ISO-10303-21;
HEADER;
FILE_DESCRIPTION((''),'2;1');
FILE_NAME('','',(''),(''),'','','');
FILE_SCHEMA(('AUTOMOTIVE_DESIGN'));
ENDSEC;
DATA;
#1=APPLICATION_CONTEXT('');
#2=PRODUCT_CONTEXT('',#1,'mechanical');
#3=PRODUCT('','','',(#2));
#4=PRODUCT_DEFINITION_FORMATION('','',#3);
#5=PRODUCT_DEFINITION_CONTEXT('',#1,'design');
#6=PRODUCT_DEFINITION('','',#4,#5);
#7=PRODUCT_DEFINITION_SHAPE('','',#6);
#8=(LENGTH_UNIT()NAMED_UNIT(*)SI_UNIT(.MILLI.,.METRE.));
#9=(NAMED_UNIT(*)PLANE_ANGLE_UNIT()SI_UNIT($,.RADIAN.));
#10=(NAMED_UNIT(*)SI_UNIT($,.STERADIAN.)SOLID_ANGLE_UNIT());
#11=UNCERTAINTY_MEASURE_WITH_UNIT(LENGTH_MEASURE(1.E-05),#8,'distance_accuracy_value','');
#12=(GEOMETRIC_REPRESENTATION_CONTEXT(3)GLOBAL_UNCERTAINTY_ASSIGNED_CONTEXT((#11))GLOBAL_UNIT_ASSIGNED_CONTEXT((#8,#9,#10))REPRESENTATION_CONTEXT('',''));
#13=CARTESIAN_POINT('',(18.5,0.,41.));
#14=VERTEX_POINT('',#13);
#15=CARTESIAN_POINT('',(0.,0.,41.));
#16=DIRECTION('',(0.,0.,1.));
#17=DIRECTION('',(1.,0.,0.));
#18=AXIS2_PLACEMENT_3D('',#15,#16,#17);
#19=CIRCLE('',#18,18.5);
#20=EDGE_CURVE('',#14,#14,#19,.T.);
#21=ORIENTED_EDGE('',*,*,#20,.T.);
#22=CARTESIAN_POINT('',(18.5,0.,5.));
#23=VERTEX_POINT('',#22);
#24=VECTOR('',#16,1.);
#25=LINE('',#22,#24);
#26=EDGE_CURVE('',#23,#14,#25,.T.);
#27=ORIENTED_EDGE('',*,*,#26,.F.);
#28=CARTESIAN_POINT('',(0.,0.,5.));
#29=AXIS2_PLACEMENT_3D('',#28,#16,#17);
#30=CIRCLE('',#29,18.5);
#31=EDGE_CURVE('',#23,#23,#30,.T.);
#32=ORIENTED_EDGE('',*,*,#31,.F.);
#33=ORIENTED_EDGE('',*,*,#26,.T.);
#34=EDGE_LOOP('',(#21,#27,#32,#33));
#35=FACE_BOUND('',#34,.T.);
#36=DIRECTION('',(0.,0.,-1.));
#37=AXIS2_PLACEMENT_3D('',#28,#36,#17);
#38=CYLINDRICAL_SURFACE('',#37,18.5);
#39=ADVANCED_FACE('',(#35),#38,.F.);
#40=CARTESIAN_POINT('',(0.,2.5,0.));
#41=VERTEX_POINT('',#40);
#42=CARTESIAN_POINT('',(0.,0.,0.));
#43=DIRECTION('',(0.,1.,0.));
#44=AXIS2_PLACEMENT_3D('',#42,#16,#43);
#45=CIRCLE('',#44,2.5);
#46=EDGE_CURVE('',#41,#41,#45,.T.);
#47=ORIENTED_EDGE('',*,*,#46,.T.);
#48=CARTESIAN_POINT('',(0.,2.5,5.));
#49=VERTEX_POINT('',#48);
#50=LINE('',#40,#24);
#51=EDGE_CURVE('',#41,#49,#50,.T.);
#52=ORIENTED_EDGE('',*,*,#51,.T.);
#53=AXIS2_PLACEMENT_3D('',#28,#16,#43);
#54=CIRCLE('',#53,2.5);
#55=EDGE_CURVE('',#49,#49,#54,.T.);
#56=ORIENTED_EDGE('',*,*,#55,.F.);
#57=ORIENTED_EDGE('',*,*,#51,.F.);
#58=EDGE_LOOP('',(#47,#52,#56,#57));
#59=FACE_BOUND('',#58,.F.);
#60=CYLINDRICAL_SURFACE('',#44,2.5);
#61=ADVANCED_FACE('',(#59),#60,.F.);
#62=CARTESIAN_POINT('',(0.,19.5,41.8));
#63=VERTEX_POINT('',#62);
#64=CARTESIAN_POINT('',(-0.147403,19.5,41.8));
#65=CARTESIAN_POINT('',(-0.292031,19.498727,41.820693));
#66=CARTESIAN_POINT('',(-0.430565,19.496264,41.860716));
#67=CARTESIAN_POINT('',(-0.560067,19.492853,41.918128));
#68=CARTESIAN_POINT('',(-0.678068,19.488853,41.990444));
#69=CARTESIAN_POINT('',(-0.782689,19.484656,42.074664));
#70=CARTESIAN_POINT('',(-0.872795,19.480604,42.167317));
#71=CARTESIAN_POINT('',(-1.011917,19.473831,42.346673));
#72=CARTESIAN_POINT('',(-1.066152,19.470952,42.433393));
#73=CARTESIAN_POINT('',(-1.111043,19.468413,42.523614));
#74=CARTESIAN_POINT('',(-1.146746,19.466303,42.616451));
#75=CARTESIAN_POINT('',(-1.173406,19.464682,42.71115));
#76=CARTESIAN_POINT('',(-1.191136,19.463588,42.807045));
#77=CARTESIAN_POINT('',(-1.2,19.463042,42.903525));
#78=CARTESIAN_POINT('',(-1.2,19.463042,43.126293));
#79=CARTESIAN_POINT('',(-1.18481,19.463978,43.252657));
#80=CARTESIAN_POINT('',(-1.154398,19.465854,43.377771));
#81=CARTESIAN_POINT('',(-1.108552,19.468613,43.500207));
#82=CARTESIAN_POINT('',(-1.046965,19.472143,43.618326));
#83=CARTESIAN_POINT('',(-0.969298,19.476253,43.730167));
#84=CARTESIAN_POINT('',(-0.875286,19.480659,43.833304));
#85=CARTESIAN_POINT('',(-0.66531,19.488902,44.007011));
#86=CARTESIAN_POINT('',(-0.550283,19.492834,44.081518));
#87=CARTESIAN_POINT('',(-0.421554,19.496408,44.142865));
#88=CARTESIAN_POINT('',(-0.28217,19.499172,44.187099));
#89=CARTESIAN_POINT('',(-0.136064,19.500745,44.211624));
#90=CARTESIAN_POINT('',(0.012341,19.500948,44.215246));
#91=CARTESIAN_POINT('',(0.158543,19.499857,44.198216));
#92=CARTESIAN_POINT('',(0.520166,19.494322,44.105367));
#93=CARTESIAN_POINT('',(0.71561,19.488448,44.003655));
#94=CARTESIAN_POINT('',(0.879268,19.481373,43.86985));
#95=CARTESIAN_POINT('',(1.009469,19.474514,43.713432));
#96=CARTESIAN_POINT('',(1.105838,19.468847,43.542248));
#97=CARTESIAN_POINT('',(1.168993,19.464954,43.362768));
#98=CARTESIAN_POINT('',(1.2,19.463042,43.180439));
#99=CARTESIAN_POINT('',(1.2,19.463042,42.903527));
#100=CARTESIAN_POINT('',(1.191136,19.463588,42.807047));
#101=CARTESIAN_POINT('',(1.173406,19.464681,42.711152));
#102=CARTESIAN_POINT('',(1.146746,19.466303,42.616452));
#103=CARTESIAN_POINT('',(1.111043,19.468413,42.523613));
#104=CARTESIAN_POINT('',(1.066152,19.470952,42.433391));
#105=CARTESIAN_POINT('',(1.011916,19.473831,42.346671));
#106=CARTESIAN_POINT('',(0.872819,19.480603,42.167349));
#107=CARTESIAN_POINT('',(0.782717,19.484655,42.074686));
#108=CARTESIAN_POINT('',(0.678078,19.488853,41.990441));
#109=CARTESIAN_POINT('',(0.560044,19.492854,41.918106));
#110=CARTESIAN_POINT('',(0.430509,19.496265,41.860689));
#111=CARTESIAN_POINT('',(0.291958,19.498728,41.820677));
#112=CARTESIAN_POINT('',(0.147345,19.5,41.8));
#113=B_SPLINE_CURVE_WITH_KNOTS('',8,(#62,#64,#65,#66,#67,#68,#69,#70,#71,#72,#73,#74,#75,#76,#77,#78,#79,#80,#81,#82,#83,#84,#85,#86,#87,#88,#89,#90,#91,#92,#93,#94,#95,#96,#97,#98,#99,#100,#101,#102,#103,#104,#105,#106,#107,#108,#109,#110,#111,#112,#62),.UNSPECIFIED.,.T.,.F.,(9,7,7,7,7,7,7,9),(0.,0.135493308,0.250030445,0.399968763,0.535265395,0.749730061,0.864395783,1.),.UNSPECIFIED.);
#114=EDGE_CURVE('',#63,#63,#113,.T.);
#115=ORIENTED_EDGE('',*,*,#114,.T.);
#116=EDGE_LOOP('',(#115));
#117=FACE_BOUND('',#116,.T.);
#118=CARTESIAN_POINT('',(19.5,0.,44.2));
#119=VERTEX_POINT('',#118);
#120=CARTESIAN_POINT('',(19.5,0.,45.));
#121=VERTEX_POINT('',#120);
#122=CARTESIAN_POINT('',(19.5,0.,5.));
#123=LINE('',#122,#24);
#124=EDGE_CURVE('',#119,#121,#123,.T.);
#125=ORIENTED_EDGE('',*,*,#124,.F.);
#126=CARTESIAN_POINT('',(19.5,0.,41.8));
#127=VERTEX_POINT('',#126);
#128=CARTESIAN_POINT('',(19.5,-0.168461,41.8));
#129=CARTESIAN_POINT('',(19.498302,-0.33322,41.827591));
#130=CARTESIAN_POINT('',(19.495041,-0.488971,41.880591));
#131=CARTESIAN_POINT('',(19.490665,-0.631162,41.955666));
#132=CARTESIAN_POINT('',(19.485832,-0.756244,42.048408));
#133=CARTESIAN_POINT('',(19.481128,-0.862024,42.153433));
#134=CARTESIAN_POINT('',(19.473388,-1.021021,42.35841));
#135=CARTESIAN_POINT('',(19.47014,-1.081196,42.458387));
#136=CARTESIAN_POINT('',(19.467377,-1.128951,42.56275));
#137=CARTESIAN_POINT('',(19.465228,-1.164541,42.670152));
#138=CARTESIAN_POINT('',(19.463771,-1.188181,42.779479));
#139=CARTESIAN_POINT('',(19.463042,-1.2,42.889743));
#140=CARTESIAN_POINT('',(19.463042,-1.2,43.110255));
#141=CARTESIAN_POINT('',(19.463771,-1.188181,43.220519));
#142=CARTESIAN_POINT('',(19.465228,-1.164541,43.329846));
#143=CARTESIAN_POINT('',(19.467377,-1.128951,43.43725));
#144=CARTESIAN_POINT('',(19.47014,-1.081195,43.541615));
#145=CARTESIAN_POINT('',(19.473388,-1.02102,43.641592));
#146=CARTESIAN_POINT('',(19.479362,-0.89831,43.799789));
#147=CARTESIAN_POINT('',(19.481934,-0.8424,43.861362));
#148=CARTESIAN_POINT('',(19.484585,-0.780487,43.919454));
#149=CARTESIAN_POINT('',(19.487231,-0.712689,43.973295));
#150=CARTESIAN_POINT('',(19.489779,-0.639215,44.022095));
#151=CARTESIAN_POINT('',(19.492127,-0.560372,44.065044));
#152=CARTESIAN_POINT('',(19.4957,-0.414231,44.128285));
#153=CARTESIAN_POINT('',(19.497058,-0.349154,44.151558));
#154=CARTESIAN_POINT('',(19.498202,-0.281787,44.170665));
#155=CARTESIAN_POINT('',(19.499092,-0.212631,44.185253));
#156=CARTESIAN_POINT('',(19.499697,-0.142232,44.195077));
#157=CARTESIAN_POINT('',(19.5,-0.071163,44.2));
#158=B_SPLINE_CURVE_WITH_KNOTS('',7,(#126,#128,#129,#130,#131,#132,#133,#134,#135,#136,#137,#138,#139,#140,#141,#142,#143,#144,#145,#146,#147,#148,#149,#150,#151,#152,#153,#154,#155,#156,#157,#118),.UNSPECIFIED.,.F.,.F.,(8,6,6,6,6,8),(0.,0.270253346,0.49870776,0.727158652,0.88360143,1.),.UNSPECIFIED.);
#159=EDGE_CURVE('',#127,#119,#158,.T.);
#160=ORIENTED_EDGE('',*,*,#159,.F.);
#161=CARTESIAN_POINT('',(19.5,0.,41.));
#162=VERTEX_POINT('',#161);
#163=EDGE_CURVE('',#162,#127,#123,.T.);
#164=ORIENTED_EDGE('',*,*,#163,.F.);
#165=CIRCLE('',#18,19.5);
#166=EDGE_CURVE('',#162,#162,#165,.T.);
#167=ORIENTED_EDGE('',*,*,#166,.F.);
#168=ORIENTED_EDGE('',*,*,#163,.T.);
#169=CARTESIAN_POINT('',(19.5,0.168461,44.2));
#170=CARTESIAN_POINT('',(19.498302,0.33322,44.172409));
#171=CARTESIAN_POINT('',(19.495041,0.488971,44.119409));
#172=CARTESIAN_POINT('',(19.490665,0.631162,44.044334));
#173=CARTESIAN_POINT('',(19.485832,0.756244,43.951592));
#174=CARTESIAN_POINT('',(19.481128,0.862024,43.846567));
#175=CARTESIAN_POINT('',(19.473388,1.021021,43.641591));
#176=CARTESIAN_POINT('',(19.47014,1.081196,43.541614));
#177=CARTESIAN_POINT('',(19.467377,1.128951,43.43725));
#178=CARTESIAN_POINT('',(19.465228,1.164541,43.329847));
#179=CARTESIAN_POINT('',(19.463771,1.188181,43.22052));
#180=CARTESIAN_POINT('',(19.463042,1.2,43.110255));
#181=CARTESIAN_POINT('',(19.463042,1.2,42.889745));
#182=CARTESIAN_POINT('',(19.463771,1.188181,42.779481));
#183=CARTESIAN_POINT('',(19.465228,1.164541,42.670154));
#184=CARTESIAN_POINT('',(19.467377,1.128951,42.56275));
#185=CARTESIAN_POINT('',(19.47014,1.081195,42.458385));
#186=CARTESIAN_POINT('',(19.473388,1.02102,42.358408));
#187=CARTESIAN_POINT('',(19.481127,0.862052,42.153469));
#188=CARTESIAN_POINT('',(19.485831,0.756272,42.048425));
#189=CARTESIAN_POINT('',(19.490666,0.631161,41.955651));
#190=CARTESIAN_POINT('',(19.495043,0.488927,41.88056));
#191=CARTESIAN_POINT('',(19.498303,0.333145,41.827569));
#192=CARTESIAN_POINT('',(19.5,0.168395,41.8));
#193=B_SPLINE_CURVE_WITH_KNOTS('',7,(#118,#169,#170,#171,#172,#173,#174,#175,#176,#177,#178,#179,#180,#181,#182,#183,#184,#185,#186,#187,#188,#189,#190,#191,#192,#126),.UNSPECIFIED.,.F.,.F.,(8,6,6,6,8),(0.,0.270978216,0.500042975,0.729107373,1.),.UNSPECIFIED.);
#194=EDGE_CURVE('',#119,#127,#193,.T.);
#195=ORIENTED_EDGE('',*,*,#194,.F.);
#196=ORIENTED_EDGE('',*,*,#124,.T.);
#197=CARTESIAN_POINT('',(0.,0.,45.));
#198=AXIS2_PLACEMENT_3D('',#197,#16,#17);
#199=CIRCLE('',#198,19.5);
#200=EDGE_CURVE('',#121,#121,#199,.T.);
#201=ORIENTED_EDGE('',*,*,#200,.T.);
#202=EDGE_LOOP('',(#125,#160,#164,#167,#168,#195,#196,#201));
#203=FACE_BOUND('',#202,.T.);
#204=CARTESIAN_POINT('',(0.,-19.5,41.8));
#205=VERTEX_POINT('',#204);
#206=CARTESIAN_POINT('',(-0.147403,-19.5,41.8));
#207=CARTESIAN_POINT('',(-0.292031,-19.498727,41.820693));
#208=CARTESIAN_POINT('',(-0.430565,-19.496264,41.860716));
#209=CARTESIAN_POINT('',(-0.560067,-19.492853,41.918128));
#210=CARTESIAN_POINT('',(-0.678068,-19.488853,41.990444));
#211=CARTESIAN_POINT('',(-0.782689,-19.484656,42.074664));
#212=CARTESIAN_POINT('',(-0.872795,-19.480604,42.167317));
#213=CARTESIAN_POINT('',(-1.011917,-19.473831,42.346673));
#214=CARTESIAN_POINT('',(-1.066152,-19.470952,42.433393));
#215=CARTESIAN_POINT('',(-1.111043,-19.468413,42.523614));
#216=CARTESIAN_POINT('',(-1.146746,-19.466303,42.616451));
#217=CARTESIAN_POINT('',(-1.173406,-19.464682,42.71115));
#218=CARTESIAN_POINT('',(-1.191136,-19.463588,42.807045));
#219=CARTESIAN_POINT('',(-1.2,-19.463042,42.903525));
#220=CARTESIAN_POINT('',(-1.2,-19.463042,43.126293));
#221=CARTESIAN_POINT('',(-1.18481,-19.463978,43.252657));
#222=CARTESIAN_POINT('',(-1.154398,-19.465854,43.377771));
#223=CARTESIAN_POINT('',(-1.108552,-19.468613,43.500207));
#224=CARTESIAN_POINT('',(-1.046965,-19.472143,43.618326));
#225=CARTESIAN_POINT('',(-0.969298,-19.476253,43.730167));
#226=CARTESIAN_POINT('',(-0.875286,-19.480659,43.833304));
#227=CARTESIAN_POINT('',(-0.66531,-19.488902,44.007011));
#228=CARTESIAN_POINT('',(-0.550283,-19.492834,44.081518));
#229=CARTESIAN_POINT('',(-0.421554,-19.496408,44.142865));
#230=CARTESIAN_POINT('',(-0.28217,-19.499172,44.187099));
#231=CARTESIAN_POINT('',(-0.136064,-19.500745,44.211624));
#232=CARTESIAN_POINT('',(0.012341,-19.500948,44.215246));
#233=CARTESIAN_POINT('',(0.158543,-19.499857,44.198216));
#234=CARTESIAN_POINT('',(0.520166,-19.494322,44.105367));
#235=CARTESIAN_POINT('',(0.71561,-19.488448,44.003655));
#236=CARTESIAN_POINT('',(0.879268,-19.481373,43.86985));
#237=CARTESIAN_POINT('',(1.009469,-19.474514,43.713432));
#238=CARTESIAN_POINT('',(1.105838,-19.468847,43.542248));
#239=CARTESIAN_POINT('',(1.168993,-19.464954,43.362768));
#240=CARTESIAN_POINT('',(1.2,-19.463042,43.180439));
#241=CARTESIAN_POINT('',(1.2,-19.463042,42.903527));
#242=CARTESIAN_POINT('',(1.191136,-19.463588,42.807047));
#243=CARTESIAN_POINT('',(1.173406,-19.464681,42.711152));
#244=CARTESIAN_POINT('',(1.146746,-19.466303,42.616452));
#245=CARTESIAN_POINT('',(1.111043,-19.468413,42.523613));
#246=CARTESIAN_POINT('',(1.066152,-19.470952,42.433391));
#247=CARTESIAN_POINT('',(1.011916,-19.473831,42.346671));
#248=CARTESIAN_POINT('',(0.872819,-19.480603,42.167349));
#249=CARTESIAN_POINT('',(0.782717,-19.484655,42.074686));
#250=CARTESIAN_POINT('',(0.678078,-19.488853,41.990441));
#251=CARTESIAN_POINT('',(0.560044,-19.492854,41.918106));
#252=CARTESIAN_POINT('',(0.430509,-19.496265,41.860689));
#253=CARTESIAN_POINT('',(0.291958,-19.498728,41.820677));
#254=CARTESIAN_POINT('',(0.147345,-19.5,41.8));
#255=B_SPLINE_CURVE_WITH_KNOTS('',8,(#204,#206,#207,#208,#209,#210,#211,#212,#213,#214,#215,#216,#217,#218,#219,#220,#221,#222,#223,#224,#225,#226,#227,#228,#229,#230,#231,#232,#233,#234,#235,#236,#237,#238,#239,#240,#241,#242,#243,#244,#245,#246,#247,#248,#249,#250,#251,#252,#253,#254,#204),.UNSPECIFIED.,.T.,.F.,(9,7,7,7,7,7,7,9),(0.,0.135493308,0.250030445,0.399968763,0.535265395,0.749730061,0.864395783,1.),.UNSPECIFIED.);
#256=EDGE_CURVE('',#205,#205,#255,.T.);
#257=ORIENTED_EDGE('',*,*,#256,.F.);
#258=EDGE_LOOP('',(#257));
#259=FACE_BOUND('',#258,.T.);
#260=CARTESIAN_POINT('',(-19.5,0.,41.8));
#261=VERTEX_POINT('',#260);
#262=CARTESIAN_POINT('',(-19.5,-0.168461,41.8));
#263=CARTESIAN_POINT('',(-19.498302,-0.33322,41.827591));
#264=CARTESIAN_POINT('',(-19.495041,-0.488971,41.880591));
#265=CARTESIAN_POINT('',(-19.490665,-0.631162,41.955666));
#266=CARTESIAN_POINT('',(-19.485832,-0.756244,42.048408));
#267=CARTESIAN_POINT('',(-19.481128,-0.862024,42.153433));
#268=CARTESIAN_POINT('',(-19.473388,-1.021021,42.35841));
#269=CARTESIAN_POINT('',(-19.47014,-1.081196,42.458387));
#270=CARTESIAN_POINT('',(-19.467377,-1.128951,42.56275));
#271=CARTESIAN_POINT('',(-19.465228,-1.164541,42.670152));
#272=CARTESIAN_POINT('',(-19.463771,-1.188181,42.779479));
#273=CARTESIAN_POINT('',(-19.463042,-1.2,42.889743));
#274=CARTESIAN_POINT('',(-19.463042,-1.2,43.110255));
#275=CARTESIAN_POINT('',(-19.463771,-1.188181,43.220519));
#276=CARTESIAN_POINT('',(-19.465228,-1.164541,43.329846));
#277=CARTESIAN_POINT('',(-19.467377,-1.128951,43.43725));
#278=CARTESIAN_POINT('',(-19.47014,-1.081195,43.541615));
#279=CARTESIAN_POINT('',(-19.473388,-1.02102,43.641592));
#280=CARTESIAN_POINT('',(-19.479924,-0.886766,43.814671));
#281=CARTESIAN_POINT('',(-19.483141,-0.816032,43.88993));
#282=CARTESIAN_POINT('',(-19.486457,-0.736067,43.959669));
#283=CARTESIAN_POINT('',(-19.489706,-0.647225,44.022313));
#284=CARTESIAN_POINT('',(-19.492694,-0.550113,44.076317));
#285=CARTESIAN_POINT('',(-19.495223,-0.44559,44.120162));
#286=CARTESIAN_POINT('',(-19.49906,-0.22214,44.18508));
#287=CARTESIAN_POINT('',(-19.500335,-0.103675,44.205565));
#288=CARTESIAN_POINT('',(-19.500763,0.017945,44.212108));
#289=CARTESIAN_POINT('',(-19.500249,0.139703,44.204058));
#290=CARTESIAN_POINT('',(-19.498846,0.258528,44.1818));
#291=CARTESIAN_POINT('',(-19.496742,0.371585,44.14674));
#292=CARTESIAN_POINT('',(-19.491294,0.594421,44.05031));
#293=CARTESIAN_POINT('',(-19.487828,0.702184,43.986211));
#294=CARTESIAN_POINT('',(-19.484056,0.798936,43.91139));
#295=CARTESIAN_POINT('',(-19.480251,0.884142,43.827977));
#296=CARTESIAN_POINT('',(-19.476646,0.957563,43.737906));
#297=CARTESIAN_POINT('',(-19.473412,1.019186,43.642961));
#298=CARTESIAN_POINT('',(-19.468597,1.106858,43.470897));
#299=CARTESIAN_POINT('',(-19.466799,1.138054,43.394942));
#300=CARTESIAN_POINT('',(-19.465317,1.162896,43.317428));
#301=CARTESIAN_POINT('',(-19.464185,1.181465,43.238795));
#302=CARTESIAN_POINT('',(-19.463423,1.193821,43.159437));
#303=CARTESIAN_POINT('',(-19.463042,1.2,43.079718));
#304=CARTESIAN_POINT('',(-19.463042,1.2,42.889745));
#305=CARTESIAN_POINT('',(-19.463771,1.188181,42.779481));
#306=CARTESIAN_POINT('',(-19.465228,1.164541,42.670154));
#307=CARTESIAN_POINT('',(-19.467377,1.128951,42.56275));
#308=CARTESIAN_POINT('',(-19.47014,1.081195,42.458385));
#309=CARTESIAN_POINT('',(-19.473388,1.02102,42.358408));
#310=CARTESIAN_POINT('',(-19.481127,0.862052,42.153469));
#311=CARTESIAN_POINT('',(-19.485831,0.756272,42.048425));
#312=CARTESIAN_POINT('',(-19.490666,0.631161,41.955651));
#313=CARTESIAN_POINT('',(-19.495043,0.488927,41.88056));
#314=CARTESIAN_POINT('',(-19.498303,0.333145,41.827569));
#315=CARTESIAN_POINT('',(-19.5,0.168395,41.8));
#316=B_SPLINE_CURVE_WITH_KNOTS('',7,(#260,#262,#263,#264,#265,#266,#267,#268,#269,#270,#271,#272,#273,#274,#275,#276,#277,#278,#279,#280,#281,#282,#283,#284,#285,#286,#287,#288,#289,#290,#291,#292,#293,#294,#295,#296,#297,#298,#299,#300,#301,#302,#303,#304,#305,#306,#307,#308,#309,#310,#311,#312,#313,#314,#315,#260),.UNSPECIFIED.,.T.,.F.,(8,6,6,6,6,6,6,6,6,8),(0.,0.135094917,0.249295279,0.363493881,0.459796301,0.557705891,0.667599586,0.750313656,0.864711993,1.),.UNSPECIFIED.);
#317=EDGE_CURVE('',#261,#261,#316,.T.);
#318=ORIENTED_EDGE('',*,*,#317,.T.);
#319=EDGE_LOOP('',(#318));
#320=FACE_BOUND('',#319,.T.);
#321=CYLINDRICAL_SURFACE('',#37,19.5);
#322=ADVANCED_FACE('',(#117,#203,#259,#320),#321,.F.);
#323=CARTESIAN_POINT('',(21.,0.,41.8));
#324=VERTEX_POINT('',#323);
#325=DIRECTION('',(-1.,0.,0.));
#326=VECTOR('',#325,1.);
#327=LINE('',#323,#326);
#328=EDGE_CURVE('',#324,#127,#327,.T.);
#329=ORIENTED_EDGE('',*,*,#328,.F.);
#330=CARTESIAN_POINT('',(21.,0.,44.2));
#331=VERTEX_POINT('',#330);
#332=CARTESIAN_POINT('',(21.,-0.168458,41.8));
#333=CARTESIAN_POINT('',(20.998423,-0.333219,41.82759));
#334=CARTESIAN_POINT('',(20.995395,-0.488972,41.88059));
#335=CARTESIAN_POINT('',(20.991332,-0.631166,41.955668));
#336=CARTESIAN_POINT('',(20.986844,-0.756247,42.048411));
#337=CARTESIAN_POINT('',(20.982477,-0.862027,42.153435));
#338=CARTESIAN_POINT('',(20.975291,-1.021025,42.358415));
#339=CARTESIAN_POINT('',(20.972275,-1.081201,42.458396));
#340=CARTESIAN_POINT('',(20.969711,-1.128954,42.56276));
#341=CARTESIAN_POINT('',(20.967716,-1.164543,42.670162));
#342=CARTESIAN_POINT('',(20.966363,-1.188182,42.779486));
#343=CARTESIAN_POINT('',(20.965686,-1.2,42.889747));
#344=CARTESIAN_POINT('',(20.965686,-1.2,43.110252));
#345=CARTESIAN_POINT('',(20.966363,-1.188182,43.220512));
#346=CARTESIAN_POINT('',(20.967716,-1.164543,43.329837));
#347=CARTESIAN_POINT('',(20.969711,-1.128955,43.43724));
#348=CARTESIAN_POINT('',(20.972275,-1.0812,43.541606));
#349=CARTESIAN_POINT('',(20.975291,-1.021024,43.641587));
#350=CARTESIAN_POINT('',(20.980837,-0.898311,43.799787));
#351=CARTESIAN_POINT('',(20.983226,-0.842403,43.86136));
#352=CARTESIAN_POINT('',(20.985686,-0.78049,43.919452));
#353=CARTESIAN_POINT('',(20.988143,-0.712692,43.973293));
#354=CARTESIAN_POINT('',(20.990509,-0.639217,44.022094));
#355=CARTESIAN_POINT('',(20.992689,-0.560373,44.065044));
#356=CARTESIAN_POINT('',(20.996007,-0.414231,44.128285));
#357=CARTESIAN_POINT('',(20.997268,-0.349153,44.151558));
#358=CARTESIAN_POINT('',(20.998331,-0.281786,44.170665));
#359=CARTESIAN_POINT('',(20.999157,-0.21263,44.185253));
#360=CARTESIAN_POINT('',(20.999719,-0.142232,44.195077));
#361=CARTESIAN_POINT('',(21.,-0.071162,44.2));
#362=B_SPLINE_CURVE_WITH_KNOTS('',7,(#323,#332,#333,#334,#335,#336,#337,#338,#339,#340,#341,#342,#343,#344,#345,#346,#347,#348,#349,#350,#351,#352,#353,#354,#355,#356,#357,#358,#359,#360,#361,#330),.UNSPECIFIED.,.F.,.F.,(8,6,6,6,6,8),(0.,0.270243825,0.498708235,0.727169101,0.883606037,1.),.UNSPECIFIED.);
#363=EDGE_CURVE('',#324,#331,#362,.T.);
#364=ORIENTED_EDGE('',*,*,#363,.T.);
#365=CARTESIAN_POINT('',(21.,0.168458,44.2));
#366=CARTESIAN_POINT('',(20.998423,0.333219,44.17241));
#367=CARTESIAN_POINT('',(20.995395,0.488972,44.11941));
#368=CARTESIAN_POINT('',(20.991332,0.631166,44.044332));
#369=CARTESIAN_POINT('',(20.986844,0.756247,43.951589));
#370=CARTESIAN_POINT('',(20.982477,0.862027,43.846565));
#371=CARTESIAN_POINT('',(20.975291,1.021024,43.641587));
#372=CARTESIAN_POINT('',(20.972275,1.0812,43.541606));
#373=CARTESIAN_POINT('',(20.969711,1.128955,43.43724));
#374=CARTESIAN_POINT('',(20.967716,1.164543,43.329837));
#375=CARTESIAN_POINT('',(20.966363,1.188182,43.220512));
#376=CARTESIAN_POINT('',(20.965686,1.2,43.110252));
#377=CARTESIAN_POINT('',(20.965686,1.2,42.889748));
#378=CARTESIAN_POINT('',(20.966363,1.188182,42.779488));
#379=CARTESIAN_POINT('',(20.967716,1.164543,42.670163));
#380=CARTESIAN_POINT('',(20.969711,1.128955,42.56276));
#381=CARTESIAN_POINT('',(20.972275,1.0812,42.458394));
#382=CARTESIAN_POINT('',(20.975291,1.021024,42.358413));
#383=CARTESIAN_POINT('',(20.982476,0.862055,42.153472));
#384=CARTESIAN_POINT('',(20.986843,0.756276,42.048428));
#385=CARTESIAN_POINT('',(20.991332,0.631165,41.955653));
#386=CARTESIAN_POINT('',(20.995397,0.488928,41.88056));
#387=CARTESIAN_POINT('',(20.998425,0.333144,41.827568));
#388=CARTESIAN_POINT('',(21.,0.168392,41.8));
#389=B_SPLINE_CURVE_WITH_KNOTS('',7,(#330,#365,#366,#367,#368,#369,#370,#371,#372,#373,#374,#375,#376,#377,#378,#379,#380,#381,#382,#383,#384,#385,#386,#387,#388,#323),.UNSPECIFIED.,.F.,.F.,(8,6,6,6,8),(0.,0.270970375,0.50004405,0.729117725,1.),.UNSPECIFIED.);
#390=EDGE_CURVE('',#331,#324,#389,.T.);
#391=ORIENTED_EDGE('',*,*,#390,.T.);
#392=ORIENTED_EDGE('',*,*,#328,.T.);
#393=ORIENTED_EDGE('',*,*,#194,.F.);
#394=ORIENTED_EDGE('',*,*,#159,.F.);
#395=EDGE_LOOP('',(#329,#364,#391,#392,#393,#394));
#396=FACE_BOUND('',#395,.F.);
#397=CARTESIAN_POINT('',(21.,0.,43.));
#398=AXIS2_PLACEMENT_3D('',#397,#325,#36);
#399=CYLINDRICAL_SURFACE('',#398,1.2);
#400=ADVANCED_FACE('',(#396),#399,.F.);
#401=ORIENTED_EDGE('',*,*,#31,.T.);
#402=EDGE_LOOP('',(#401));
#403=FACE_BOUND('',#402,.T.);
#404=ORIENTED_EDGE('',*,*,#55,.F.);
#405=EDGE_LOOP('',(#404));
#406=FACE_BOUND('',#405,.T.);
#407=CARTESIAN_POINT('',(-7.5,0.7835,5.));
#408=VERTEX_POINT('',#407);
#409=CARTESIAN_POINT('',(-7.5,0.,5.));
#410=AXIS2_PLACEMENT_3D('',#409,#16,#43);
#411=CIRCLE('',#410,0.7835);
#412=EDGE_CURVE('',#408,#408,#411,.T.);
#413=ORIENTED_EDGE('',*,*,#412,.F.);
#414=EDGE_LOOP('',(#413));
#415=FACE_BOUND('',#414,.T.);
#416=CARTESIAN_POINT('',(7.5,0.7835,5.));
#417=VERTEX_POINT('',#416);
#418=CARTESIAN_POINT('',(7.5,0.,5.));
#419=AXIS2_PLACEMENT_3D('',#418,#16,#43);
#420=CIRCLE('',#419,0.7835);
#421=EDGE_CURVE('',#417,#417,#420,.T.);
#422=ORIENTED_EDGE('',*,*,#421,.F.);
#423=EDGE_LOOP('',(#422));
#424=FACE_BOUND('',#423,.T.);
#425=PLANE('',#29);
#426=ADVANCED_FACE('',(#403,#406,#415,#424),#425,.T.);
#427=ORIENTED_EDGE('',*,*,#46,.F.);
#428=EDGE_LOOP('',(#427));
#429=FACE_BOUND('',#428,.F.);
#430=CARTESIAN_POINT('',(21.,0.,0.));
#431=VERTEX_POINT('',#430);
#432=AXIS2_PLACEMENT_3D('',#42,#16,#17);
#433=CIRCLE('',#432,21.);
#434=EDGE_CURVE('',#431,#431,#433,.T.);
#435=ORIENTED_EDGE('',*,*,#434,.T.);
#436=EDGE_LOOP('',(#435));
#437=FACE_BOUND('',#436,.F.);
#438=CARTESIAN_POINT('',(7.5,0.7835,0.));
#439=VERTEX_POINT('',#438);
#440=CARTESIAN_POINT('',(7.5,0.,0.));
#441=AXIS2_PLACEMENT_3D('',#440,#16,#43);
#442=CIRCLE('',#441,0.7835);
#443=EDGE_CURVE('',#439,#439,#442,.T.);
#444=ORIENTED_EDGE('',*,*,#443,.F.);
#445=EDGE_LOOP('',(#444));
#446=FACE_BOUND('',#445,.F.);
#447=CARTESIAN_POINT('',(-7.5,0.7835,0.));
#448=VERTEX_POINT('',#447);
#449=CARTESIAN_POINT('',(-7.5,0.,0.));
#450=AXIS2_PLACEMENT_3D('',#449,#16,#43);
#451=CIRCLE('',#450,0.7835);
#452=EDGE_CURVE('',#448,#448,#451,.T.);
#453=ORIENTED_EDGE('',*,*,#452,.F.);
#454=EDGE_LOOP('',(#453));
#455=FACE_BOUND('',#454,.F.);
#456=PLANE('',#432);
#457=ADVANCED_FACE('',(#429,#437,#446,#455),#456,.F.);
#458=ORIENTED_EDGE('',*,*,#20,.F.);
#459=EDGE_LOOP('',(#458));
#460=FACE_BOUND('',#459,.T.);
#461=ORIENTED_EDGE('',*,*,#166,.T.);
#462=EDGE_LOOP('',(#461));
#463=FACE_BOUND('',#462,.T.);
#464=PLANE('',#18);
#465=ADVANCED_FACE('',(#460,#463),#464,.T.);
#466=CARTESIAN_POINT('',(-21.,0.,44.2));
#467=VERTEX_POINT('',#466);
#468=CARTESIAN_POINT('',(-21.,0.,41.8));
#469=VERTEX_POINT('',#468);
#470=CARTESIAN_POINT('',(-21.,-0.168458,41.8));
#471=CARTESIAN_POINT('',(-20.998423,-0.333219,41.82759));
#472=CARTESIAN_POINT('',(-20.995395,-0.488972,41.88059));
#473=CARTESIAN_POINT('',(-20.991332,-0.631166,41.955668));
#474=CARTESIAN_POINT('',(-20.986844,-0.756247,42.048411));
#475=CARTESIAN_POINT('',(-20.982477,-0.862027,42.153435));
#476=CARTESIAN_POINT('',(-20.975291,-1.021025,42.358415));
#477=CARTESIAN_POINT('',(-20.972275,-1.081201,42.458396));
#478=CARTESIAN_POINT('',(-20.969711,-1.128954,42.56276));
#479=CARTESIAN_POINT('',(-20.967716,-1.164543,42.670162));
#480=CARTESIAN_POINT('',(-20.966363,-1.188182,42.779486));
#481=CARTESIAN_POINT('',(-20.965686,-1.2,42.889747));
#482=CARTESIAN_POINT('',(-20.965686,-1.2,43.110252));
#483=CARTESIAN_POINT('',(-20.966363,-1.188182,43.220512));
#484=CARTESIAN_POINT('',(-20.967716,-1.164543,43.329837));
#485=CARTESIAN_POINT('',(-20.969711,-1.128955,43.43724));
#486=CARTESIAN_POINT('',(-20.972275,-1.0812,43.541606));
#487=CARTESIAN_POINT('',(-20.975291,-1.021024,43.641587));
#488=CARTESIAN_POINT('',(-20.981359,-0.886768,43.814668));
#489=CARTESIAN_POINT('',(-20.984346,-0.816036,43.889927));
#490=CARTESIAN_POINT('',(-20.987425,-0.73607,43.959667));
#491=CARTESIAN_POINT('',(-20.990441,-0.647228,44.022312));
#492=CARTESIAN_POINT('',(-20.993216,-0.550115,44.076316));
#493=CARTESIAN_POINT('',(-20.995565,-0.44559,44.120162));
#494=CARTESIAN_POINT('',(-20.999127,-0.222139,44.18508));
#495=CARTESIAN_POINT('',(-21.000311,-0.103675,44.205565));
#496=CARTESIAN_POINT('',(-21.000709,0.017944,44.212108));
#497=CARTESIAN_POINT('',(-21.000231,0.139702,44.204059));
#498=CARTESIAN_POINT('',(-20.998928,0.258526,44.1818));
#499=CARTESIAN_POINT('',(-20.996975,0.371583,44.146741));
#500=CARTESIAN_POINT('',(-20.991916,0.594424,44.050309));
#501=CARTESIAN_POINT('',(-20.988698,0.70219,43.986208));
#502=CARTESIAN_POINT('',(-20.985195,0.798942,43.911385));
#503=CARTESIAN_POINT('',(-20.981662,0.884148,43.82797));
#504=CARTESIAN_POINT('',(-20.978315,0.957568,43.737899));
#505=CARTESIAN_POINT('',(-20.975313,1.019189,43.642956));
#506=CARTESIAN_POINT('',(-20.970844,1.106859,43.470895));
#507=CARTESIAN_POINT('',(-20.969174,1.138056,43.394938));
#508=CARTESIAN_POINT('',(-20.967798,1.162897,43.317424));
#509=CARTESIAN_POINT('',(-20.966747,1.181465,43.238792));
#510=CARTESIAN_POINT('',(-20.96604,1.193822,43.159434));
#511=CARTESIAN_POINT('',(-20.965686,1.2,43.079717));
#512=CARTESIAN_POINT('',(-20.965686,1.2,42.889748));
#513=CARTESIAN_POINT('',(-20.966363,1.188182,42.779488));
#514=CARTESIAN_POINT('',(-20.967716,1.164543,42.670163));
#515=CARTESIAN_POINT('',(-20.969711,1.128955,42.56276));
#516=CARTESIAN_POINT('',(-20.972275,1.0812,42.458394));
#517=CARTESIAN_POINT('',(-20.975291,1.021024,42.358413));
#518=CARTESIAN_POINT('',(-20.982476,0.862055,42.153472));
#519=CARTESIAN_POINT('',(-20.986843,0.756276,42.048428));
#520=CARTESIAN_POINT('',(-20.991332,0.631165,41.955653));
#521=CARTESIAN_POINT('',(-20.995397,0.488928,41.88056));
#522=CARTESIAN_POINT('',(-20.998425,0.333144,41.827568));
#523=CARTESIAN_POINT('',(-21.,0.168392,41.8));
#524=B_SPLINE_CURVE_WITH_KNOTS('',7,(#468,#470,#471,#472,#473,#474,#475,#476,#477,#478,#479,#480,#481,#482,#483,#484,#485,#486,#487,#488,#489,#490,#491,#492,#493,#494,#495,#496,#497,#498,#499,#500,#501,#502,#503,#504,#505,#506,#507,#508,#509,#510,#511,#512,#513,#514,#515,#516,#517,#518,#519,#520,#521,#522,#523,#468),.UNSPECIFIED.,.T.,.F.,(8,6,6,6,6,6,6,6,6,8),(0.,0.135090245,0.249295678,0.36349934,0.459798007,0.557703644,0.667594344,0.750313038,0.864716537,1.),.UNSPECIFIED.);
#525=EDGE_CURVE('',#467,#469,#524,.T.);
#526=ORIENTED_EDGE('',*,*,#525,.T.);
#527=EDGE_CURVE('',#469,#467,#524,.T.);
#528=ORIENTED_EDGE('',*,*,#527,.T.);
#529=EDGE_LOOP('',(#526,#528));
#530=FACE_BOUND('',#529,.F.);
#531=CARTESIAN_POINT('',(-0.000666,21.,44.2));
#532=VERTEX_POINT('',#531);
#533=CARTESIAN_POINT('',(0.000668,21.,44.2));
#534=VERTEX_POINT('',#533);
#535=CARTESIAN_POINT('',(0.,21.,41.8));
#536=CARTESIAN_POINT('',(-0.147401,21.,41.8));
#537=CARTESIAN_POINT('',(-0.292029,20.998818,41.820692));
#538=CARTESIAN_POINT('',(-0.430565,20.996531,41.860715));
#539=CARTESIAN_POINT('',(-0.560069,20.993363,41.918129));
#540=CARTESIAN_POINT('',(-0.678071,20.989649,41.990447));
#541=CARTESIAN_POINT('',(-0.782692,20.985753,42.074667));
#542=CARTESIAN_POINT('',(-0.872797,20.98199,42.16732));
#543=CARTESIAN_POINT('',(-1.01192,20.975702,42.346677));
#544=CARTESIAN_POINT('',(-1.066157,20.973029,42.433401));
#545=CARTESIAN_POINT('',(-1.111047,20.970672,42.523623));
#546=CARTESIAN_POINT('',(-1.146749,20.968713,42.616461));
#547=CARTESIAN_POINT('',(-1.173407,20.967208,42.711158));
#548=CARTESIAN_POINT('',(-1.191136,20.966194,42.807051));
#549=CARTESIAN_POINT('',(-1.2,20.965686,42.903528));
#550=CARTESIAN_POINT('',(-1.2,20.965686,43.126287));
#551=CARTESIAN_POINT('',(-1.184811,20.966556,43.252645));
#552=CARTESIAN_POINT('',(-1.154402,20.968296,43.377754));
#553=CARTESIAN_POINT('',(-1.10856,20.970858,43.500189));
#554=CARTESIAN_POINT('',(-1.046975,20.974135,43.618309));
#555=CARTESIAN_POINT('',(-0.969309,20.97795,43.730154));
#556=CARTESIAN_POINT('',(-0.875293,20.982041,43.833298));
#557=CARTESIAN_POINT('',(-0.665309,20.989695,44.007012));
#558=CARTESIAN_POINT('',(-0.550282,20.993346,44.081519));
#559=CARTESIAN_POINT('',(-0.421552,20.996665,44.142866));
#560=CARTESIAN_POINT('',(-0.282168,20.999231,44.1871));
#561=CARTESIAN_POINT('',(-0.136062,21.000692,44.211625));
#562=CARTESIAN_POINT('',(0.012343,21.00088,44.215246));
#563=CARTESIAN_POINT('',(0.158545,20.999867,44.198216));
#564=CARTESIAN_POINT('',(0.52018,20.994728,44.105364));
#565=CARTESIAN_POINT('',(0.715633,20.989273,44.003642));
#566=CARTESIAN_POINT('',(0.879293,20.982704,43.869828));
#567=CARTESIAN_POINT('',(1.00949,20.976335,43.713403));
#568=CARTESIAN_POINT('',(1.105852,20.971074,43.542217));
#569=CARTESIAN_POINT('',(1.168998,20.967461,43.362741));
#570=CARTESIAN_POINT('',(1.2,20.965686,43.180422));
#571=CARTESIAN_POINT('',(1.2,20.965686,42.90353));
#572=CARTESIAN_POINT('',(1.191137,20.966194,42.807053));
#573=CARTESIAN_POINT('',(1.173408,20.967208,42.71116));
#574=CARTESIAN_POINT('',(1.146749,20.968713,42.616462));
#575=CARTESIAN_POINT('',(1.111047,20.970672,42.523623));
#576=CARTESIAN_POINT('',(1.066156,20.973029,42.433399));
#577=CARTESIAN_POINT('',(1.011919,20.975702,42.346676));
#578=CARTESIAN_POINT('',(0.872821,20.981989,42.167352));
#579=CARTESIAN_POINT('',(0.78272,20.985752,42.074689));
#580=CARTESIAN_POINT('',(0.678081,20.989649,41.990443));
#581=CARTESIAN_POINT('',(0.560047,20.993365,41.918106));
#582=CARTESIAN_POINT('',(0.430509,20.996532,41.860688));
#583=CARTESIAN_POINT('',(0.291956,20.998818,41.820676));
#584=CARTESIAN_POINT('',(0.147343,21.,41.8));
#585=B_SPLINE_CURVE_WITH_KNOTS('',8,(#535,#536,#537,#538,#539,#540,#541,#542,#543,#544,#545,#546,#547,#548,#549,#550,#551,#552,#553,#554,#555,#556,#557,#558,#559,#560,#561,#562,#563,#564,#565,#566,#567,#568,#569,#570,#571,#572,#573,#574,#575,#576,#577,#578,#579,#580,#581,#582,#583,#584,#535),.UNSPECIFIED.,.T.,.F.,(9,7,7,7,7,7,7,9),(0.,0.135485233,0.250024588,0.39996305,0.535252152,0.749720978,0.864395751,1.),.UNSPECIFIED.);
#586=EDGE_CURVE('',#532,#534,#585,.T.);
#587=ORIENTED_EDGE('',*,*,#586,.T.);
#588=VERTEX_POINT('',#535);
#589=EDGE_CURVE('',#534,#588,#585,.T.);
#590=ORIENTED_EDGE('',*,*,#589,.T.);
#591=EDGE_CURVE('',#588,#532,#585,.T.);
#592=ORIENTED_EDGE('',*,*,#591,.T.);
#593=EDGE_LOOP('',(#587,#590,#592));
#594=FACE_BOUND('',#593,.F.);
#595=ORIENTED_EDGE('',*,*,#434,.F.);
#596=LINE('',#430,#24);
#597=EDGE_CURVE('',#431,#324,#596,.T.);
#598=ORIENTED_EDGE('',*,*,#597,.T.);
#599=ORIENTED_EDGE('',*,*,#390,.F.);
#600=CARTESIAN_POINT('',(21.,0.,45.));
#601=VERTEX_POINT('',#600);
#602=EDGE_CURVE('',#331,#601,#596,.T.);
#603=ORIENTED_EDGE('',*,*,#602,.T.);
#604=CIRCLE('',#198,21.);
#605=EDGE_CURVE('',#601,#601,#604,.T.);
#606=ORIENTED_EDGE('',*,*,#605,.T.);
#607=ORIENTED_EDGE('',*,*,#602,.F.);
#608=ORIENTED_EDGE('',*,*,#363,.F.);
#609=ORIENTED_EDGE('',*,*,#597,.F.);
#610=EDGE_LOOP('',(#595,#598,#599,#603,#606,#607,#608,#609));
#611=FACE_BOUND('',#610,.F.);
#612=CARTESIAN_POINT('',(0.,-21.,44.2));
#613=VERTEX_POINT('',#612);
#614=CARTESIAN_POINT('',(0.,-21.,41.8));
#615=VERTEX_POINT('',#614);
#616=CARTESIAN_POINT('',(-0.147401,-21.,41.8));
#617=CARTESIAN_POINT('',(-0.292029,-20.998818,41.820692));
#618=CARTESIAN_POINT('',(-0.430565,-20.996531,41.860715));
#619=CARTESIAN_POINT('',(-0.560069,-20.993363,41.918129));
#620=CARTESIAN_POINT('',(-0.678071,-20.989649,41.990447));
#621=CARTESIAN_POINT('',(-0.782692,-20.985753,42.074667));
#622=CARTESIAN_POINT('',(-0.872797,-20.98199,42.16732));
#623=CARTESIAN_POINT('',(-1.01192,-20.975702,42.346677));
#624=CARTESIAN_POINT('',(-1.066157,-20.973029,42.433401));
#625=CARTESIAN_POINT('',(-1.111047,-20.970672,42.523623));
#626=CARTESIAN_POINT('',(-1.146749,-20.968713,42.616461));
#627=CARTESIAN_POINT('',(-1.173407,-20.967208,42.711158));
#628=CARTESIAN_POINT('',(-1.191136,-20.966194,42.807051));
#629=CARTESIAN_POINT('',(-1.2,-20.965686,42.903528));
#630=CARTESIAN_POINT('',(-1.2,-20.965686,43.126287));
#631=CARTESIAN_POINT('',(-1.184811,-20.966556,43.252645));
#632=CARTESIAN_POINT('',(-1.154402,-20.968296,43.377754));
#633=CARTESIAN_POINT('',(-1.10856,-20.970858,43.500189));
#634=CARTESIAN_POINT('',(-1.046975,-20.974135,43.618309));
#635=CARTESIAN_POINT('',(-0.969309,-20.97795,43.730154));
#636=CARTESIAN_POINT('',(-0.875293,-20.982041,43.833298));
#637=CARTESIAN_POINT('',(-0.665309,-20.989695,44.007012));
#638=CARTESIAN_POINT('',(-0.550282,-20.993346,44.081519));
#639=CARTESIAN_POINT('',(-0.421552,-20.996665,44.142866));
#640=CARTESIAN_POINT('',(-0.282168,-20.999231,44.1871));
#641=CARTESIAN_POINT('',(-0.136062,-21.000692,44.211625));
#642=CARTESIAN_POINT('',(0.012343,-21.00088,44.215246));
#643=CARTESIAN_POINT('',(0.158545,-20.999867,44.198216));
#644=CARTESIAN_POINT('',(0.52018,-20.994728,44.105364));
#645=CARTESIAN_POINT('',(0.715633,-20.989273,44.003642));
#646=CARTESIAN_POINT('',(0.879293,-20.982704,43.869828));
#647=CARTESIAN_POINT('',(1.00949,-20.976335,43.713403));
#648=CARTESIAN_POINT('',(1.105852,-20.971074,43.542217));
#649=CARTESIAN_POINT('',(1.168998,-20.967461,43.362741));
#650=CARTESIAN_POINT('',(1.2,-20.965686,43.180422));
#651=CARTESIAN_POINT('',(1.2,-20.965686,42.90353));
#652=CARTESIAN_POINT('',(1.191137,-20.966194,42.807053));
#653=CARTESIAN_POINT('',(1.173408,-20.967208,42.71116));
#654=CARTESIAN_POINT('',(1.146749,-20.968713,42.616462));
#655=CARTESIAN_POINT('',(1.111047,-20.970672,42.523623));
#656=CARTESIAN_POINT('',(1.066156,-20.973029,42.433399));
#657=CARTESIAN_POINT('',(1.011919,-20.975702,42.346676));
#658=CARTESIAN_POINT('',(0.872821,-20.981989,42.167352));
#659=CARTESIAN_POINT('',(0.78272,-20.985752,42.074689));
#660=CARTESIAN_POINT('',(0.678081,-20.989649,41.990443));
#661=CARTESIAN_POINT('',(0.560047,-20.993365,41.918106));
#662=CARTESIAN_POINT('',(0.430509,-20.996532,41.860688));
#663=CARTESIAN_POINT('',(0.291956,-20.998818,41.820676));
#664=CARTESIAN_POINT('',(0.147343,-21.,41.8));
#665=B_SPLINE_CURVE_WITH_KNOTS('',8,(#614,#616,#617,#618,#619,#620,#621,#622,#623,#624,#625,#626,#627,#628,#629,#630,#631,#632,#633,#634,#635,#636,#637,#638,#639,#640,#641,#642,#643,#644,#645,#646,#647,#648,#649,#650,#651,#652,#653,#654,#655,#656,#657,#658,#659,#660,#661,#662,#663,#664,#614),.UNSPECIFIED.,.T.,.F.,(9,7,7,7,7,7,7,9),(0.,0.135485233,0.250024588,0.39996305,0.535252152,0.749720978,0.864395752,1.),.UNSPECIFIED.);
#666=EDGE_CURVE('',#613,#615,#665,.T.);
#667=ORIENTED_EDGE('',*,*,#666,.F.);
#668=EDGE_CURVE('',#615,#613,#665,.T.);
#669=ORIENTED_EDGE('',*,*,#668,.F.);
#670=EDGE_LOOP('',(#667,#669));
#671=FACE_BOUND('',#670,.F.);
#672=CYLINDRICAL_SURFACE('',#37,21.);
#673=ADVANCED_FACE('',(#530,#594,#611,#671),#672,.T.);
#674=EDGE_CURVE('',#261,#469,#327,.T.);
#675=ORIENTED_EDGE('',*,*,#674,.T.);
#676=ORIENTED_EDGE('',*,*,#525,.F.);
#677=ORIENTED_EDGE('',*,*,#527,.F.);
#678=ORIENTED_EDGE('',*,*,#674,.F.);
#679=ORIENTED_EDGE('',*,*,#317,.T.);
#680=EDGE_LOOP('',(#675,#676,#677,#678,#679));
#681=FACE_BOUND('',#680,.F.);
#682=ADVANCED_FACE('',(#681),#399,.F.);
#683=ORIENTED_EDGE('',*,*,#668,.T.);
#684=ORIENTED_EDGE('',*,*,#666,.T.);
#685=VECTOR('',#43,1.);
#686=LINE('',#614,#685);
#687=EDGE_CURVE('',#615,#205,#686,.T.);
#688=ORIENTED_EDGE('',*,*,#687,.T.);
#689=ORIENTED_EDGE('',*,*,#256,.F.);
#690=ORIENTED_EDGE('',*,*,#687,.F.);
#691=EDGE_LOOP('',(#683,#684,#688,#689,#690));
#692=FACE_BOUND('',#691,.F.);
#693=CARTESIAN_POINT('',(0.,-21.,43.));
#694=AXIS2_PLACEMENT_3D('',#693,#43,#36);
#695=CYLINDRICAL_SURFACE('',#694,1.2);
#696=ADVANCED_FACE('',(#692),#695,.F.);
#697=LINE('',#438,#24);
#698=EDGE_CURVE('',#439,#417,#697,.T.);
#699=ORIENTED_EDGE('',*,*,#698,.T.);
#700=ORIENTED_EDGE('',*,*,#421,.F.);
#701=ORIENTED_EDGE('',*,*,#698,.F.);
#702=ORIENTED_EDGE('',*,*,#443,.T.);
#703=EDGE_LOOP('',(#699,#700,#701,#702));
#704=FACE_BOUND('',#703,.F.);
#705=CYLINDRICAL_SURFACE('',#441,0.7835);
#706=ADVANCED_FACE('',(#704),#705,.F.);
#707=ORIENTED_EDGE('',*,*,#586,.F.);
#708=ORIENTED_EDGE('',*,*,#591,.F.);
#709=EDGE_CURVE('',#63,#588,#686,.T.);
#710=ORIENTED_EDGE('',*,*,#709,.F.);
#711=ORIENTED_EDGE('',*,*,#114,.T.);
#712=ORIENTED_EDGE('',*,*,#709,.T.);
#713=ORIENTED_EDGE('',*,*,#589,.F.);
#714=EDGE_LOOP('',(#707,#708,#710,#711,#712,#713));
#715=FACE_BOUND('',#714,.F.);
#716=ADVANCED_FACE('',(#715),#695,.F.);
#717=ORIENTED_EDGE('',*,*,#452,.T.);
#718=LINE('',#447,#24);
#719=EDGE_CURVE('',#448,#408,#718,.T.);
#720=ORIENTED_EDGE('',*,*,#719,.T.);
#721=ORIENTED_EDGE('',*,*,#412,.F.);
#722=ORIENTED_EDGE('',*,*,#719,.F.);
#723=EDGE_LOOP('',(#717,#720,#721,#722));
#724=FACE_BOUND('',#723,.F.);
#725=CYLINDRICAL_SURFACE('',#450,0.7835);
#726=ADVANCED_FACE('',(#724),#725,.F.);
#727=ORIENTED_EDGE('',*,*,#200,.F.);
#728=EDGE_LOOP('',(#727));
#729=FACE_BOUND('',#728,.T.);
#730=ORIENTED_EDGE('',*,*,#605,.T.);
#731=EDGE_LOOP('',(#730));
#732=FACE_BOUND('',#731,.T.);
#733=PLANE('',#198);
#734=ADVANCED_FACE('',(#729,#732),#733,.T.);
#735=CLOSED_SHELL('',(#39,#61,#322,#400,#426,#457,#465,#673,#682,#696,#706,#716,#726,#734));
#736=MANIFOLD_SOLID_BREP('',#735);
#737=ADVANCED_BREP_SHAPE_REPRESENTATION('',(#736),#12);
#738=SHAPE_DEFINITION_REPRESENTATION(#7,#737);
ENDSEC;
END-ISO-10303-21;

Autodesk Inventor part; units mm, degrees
ref_plane "YZ Plane" through (0, 0, 0) normal (1, 0, 0) x (0, 1, 0)
ref_plane "XY Plane" through (0, 0, 0) normal (0, 0, 1) x (1, 0, 0)
sketch "Skizze1" plane through (0, 0, 0) normal (0, 0, 1) x (1, 0, 0)
  line L0 (-29.4, 0) -> (29.4, 0) projected
  line L1 (0, -29.4) -> (0, 29.4) projected
  circle A0 centre (0, 0) radius 21
  dimension "d0" = 42
extrude "Extrusion1" add sketch "Skizze1" along normal blind 5
sketch "Skizze2" plane through (0, 0, 5) normal (0, 0, 1) x (1, 0, 0)
  circle A0 centre (0, 0) radius 21 projected
  circle A1 centre (0, 0) radius 21
  circle A2 centre (0, 0) radius 19.5
  dimension "d3" = 39
extrude "Extrusion2" add sketch "Skizze2" along normal blind 40
sketch "Skizze3" plane through (0, 0, 0) normal (0, 0, -1) x (-1, 0, 0)
  line L0 (29.4, 0) -> (-29.4, 0) projected
  line L1 (0, -29.4) -> (0, 29.4) projected
  point P0 (-7.5, 0)
  point P1 (7.5, 0)
  dimension "d6" = 15
hole "Bohrung1" at (7.5, 0, 0) at (-7.5, 0, 0) direction (0, 0, 1) diameter 1.567 end through all thread size "M2x0.4" class "6H" standard "ISO Metric profile"
hole "Bohrung2" at (0, 0, 0) direction (0, 0, 1) diameter 5 end through all
ref_plane "Arbeitsebene1" through (0, -21, 0) normal (0, 1, 0) x (-1, 0, 0)
sketch "Skizze4" plane through (0, -21, 0) normal (0, 1, 0) x (-1, 0, 0)
  line L0 (29.4, 0) -> (-29.4, 0) projected
  line L1 (0, -9) -> (0, 54) projected
  line L2 (21, 45) -> (-21, 45) projected
  point P0 (0, 0)
  point P1 (0, 43)
  dimension "d23" = 2
hole "Bohrung3" at (0, -21, 43) direction (0, 1, 0) diameter 2.4 end through all
pattern_circular "Runde Anordnung1" count 4 over 360 about axis through (0, 0, -10) along (0, 0, 1) of "Bohrung3"
sketch "Skizze5" plane through (0, 0, 5) normal (0, 0, 1) x (1, 0, 0)
  circle A0 centre (0, 0) radius 19.5 projected
  circle A1 centre (0, 0) radius 18.5
  dimension "d34" = 37
extrude "Extrusion3" add sketch "Skizze5" along normal blind 36
properties part number "13_1087_060"
